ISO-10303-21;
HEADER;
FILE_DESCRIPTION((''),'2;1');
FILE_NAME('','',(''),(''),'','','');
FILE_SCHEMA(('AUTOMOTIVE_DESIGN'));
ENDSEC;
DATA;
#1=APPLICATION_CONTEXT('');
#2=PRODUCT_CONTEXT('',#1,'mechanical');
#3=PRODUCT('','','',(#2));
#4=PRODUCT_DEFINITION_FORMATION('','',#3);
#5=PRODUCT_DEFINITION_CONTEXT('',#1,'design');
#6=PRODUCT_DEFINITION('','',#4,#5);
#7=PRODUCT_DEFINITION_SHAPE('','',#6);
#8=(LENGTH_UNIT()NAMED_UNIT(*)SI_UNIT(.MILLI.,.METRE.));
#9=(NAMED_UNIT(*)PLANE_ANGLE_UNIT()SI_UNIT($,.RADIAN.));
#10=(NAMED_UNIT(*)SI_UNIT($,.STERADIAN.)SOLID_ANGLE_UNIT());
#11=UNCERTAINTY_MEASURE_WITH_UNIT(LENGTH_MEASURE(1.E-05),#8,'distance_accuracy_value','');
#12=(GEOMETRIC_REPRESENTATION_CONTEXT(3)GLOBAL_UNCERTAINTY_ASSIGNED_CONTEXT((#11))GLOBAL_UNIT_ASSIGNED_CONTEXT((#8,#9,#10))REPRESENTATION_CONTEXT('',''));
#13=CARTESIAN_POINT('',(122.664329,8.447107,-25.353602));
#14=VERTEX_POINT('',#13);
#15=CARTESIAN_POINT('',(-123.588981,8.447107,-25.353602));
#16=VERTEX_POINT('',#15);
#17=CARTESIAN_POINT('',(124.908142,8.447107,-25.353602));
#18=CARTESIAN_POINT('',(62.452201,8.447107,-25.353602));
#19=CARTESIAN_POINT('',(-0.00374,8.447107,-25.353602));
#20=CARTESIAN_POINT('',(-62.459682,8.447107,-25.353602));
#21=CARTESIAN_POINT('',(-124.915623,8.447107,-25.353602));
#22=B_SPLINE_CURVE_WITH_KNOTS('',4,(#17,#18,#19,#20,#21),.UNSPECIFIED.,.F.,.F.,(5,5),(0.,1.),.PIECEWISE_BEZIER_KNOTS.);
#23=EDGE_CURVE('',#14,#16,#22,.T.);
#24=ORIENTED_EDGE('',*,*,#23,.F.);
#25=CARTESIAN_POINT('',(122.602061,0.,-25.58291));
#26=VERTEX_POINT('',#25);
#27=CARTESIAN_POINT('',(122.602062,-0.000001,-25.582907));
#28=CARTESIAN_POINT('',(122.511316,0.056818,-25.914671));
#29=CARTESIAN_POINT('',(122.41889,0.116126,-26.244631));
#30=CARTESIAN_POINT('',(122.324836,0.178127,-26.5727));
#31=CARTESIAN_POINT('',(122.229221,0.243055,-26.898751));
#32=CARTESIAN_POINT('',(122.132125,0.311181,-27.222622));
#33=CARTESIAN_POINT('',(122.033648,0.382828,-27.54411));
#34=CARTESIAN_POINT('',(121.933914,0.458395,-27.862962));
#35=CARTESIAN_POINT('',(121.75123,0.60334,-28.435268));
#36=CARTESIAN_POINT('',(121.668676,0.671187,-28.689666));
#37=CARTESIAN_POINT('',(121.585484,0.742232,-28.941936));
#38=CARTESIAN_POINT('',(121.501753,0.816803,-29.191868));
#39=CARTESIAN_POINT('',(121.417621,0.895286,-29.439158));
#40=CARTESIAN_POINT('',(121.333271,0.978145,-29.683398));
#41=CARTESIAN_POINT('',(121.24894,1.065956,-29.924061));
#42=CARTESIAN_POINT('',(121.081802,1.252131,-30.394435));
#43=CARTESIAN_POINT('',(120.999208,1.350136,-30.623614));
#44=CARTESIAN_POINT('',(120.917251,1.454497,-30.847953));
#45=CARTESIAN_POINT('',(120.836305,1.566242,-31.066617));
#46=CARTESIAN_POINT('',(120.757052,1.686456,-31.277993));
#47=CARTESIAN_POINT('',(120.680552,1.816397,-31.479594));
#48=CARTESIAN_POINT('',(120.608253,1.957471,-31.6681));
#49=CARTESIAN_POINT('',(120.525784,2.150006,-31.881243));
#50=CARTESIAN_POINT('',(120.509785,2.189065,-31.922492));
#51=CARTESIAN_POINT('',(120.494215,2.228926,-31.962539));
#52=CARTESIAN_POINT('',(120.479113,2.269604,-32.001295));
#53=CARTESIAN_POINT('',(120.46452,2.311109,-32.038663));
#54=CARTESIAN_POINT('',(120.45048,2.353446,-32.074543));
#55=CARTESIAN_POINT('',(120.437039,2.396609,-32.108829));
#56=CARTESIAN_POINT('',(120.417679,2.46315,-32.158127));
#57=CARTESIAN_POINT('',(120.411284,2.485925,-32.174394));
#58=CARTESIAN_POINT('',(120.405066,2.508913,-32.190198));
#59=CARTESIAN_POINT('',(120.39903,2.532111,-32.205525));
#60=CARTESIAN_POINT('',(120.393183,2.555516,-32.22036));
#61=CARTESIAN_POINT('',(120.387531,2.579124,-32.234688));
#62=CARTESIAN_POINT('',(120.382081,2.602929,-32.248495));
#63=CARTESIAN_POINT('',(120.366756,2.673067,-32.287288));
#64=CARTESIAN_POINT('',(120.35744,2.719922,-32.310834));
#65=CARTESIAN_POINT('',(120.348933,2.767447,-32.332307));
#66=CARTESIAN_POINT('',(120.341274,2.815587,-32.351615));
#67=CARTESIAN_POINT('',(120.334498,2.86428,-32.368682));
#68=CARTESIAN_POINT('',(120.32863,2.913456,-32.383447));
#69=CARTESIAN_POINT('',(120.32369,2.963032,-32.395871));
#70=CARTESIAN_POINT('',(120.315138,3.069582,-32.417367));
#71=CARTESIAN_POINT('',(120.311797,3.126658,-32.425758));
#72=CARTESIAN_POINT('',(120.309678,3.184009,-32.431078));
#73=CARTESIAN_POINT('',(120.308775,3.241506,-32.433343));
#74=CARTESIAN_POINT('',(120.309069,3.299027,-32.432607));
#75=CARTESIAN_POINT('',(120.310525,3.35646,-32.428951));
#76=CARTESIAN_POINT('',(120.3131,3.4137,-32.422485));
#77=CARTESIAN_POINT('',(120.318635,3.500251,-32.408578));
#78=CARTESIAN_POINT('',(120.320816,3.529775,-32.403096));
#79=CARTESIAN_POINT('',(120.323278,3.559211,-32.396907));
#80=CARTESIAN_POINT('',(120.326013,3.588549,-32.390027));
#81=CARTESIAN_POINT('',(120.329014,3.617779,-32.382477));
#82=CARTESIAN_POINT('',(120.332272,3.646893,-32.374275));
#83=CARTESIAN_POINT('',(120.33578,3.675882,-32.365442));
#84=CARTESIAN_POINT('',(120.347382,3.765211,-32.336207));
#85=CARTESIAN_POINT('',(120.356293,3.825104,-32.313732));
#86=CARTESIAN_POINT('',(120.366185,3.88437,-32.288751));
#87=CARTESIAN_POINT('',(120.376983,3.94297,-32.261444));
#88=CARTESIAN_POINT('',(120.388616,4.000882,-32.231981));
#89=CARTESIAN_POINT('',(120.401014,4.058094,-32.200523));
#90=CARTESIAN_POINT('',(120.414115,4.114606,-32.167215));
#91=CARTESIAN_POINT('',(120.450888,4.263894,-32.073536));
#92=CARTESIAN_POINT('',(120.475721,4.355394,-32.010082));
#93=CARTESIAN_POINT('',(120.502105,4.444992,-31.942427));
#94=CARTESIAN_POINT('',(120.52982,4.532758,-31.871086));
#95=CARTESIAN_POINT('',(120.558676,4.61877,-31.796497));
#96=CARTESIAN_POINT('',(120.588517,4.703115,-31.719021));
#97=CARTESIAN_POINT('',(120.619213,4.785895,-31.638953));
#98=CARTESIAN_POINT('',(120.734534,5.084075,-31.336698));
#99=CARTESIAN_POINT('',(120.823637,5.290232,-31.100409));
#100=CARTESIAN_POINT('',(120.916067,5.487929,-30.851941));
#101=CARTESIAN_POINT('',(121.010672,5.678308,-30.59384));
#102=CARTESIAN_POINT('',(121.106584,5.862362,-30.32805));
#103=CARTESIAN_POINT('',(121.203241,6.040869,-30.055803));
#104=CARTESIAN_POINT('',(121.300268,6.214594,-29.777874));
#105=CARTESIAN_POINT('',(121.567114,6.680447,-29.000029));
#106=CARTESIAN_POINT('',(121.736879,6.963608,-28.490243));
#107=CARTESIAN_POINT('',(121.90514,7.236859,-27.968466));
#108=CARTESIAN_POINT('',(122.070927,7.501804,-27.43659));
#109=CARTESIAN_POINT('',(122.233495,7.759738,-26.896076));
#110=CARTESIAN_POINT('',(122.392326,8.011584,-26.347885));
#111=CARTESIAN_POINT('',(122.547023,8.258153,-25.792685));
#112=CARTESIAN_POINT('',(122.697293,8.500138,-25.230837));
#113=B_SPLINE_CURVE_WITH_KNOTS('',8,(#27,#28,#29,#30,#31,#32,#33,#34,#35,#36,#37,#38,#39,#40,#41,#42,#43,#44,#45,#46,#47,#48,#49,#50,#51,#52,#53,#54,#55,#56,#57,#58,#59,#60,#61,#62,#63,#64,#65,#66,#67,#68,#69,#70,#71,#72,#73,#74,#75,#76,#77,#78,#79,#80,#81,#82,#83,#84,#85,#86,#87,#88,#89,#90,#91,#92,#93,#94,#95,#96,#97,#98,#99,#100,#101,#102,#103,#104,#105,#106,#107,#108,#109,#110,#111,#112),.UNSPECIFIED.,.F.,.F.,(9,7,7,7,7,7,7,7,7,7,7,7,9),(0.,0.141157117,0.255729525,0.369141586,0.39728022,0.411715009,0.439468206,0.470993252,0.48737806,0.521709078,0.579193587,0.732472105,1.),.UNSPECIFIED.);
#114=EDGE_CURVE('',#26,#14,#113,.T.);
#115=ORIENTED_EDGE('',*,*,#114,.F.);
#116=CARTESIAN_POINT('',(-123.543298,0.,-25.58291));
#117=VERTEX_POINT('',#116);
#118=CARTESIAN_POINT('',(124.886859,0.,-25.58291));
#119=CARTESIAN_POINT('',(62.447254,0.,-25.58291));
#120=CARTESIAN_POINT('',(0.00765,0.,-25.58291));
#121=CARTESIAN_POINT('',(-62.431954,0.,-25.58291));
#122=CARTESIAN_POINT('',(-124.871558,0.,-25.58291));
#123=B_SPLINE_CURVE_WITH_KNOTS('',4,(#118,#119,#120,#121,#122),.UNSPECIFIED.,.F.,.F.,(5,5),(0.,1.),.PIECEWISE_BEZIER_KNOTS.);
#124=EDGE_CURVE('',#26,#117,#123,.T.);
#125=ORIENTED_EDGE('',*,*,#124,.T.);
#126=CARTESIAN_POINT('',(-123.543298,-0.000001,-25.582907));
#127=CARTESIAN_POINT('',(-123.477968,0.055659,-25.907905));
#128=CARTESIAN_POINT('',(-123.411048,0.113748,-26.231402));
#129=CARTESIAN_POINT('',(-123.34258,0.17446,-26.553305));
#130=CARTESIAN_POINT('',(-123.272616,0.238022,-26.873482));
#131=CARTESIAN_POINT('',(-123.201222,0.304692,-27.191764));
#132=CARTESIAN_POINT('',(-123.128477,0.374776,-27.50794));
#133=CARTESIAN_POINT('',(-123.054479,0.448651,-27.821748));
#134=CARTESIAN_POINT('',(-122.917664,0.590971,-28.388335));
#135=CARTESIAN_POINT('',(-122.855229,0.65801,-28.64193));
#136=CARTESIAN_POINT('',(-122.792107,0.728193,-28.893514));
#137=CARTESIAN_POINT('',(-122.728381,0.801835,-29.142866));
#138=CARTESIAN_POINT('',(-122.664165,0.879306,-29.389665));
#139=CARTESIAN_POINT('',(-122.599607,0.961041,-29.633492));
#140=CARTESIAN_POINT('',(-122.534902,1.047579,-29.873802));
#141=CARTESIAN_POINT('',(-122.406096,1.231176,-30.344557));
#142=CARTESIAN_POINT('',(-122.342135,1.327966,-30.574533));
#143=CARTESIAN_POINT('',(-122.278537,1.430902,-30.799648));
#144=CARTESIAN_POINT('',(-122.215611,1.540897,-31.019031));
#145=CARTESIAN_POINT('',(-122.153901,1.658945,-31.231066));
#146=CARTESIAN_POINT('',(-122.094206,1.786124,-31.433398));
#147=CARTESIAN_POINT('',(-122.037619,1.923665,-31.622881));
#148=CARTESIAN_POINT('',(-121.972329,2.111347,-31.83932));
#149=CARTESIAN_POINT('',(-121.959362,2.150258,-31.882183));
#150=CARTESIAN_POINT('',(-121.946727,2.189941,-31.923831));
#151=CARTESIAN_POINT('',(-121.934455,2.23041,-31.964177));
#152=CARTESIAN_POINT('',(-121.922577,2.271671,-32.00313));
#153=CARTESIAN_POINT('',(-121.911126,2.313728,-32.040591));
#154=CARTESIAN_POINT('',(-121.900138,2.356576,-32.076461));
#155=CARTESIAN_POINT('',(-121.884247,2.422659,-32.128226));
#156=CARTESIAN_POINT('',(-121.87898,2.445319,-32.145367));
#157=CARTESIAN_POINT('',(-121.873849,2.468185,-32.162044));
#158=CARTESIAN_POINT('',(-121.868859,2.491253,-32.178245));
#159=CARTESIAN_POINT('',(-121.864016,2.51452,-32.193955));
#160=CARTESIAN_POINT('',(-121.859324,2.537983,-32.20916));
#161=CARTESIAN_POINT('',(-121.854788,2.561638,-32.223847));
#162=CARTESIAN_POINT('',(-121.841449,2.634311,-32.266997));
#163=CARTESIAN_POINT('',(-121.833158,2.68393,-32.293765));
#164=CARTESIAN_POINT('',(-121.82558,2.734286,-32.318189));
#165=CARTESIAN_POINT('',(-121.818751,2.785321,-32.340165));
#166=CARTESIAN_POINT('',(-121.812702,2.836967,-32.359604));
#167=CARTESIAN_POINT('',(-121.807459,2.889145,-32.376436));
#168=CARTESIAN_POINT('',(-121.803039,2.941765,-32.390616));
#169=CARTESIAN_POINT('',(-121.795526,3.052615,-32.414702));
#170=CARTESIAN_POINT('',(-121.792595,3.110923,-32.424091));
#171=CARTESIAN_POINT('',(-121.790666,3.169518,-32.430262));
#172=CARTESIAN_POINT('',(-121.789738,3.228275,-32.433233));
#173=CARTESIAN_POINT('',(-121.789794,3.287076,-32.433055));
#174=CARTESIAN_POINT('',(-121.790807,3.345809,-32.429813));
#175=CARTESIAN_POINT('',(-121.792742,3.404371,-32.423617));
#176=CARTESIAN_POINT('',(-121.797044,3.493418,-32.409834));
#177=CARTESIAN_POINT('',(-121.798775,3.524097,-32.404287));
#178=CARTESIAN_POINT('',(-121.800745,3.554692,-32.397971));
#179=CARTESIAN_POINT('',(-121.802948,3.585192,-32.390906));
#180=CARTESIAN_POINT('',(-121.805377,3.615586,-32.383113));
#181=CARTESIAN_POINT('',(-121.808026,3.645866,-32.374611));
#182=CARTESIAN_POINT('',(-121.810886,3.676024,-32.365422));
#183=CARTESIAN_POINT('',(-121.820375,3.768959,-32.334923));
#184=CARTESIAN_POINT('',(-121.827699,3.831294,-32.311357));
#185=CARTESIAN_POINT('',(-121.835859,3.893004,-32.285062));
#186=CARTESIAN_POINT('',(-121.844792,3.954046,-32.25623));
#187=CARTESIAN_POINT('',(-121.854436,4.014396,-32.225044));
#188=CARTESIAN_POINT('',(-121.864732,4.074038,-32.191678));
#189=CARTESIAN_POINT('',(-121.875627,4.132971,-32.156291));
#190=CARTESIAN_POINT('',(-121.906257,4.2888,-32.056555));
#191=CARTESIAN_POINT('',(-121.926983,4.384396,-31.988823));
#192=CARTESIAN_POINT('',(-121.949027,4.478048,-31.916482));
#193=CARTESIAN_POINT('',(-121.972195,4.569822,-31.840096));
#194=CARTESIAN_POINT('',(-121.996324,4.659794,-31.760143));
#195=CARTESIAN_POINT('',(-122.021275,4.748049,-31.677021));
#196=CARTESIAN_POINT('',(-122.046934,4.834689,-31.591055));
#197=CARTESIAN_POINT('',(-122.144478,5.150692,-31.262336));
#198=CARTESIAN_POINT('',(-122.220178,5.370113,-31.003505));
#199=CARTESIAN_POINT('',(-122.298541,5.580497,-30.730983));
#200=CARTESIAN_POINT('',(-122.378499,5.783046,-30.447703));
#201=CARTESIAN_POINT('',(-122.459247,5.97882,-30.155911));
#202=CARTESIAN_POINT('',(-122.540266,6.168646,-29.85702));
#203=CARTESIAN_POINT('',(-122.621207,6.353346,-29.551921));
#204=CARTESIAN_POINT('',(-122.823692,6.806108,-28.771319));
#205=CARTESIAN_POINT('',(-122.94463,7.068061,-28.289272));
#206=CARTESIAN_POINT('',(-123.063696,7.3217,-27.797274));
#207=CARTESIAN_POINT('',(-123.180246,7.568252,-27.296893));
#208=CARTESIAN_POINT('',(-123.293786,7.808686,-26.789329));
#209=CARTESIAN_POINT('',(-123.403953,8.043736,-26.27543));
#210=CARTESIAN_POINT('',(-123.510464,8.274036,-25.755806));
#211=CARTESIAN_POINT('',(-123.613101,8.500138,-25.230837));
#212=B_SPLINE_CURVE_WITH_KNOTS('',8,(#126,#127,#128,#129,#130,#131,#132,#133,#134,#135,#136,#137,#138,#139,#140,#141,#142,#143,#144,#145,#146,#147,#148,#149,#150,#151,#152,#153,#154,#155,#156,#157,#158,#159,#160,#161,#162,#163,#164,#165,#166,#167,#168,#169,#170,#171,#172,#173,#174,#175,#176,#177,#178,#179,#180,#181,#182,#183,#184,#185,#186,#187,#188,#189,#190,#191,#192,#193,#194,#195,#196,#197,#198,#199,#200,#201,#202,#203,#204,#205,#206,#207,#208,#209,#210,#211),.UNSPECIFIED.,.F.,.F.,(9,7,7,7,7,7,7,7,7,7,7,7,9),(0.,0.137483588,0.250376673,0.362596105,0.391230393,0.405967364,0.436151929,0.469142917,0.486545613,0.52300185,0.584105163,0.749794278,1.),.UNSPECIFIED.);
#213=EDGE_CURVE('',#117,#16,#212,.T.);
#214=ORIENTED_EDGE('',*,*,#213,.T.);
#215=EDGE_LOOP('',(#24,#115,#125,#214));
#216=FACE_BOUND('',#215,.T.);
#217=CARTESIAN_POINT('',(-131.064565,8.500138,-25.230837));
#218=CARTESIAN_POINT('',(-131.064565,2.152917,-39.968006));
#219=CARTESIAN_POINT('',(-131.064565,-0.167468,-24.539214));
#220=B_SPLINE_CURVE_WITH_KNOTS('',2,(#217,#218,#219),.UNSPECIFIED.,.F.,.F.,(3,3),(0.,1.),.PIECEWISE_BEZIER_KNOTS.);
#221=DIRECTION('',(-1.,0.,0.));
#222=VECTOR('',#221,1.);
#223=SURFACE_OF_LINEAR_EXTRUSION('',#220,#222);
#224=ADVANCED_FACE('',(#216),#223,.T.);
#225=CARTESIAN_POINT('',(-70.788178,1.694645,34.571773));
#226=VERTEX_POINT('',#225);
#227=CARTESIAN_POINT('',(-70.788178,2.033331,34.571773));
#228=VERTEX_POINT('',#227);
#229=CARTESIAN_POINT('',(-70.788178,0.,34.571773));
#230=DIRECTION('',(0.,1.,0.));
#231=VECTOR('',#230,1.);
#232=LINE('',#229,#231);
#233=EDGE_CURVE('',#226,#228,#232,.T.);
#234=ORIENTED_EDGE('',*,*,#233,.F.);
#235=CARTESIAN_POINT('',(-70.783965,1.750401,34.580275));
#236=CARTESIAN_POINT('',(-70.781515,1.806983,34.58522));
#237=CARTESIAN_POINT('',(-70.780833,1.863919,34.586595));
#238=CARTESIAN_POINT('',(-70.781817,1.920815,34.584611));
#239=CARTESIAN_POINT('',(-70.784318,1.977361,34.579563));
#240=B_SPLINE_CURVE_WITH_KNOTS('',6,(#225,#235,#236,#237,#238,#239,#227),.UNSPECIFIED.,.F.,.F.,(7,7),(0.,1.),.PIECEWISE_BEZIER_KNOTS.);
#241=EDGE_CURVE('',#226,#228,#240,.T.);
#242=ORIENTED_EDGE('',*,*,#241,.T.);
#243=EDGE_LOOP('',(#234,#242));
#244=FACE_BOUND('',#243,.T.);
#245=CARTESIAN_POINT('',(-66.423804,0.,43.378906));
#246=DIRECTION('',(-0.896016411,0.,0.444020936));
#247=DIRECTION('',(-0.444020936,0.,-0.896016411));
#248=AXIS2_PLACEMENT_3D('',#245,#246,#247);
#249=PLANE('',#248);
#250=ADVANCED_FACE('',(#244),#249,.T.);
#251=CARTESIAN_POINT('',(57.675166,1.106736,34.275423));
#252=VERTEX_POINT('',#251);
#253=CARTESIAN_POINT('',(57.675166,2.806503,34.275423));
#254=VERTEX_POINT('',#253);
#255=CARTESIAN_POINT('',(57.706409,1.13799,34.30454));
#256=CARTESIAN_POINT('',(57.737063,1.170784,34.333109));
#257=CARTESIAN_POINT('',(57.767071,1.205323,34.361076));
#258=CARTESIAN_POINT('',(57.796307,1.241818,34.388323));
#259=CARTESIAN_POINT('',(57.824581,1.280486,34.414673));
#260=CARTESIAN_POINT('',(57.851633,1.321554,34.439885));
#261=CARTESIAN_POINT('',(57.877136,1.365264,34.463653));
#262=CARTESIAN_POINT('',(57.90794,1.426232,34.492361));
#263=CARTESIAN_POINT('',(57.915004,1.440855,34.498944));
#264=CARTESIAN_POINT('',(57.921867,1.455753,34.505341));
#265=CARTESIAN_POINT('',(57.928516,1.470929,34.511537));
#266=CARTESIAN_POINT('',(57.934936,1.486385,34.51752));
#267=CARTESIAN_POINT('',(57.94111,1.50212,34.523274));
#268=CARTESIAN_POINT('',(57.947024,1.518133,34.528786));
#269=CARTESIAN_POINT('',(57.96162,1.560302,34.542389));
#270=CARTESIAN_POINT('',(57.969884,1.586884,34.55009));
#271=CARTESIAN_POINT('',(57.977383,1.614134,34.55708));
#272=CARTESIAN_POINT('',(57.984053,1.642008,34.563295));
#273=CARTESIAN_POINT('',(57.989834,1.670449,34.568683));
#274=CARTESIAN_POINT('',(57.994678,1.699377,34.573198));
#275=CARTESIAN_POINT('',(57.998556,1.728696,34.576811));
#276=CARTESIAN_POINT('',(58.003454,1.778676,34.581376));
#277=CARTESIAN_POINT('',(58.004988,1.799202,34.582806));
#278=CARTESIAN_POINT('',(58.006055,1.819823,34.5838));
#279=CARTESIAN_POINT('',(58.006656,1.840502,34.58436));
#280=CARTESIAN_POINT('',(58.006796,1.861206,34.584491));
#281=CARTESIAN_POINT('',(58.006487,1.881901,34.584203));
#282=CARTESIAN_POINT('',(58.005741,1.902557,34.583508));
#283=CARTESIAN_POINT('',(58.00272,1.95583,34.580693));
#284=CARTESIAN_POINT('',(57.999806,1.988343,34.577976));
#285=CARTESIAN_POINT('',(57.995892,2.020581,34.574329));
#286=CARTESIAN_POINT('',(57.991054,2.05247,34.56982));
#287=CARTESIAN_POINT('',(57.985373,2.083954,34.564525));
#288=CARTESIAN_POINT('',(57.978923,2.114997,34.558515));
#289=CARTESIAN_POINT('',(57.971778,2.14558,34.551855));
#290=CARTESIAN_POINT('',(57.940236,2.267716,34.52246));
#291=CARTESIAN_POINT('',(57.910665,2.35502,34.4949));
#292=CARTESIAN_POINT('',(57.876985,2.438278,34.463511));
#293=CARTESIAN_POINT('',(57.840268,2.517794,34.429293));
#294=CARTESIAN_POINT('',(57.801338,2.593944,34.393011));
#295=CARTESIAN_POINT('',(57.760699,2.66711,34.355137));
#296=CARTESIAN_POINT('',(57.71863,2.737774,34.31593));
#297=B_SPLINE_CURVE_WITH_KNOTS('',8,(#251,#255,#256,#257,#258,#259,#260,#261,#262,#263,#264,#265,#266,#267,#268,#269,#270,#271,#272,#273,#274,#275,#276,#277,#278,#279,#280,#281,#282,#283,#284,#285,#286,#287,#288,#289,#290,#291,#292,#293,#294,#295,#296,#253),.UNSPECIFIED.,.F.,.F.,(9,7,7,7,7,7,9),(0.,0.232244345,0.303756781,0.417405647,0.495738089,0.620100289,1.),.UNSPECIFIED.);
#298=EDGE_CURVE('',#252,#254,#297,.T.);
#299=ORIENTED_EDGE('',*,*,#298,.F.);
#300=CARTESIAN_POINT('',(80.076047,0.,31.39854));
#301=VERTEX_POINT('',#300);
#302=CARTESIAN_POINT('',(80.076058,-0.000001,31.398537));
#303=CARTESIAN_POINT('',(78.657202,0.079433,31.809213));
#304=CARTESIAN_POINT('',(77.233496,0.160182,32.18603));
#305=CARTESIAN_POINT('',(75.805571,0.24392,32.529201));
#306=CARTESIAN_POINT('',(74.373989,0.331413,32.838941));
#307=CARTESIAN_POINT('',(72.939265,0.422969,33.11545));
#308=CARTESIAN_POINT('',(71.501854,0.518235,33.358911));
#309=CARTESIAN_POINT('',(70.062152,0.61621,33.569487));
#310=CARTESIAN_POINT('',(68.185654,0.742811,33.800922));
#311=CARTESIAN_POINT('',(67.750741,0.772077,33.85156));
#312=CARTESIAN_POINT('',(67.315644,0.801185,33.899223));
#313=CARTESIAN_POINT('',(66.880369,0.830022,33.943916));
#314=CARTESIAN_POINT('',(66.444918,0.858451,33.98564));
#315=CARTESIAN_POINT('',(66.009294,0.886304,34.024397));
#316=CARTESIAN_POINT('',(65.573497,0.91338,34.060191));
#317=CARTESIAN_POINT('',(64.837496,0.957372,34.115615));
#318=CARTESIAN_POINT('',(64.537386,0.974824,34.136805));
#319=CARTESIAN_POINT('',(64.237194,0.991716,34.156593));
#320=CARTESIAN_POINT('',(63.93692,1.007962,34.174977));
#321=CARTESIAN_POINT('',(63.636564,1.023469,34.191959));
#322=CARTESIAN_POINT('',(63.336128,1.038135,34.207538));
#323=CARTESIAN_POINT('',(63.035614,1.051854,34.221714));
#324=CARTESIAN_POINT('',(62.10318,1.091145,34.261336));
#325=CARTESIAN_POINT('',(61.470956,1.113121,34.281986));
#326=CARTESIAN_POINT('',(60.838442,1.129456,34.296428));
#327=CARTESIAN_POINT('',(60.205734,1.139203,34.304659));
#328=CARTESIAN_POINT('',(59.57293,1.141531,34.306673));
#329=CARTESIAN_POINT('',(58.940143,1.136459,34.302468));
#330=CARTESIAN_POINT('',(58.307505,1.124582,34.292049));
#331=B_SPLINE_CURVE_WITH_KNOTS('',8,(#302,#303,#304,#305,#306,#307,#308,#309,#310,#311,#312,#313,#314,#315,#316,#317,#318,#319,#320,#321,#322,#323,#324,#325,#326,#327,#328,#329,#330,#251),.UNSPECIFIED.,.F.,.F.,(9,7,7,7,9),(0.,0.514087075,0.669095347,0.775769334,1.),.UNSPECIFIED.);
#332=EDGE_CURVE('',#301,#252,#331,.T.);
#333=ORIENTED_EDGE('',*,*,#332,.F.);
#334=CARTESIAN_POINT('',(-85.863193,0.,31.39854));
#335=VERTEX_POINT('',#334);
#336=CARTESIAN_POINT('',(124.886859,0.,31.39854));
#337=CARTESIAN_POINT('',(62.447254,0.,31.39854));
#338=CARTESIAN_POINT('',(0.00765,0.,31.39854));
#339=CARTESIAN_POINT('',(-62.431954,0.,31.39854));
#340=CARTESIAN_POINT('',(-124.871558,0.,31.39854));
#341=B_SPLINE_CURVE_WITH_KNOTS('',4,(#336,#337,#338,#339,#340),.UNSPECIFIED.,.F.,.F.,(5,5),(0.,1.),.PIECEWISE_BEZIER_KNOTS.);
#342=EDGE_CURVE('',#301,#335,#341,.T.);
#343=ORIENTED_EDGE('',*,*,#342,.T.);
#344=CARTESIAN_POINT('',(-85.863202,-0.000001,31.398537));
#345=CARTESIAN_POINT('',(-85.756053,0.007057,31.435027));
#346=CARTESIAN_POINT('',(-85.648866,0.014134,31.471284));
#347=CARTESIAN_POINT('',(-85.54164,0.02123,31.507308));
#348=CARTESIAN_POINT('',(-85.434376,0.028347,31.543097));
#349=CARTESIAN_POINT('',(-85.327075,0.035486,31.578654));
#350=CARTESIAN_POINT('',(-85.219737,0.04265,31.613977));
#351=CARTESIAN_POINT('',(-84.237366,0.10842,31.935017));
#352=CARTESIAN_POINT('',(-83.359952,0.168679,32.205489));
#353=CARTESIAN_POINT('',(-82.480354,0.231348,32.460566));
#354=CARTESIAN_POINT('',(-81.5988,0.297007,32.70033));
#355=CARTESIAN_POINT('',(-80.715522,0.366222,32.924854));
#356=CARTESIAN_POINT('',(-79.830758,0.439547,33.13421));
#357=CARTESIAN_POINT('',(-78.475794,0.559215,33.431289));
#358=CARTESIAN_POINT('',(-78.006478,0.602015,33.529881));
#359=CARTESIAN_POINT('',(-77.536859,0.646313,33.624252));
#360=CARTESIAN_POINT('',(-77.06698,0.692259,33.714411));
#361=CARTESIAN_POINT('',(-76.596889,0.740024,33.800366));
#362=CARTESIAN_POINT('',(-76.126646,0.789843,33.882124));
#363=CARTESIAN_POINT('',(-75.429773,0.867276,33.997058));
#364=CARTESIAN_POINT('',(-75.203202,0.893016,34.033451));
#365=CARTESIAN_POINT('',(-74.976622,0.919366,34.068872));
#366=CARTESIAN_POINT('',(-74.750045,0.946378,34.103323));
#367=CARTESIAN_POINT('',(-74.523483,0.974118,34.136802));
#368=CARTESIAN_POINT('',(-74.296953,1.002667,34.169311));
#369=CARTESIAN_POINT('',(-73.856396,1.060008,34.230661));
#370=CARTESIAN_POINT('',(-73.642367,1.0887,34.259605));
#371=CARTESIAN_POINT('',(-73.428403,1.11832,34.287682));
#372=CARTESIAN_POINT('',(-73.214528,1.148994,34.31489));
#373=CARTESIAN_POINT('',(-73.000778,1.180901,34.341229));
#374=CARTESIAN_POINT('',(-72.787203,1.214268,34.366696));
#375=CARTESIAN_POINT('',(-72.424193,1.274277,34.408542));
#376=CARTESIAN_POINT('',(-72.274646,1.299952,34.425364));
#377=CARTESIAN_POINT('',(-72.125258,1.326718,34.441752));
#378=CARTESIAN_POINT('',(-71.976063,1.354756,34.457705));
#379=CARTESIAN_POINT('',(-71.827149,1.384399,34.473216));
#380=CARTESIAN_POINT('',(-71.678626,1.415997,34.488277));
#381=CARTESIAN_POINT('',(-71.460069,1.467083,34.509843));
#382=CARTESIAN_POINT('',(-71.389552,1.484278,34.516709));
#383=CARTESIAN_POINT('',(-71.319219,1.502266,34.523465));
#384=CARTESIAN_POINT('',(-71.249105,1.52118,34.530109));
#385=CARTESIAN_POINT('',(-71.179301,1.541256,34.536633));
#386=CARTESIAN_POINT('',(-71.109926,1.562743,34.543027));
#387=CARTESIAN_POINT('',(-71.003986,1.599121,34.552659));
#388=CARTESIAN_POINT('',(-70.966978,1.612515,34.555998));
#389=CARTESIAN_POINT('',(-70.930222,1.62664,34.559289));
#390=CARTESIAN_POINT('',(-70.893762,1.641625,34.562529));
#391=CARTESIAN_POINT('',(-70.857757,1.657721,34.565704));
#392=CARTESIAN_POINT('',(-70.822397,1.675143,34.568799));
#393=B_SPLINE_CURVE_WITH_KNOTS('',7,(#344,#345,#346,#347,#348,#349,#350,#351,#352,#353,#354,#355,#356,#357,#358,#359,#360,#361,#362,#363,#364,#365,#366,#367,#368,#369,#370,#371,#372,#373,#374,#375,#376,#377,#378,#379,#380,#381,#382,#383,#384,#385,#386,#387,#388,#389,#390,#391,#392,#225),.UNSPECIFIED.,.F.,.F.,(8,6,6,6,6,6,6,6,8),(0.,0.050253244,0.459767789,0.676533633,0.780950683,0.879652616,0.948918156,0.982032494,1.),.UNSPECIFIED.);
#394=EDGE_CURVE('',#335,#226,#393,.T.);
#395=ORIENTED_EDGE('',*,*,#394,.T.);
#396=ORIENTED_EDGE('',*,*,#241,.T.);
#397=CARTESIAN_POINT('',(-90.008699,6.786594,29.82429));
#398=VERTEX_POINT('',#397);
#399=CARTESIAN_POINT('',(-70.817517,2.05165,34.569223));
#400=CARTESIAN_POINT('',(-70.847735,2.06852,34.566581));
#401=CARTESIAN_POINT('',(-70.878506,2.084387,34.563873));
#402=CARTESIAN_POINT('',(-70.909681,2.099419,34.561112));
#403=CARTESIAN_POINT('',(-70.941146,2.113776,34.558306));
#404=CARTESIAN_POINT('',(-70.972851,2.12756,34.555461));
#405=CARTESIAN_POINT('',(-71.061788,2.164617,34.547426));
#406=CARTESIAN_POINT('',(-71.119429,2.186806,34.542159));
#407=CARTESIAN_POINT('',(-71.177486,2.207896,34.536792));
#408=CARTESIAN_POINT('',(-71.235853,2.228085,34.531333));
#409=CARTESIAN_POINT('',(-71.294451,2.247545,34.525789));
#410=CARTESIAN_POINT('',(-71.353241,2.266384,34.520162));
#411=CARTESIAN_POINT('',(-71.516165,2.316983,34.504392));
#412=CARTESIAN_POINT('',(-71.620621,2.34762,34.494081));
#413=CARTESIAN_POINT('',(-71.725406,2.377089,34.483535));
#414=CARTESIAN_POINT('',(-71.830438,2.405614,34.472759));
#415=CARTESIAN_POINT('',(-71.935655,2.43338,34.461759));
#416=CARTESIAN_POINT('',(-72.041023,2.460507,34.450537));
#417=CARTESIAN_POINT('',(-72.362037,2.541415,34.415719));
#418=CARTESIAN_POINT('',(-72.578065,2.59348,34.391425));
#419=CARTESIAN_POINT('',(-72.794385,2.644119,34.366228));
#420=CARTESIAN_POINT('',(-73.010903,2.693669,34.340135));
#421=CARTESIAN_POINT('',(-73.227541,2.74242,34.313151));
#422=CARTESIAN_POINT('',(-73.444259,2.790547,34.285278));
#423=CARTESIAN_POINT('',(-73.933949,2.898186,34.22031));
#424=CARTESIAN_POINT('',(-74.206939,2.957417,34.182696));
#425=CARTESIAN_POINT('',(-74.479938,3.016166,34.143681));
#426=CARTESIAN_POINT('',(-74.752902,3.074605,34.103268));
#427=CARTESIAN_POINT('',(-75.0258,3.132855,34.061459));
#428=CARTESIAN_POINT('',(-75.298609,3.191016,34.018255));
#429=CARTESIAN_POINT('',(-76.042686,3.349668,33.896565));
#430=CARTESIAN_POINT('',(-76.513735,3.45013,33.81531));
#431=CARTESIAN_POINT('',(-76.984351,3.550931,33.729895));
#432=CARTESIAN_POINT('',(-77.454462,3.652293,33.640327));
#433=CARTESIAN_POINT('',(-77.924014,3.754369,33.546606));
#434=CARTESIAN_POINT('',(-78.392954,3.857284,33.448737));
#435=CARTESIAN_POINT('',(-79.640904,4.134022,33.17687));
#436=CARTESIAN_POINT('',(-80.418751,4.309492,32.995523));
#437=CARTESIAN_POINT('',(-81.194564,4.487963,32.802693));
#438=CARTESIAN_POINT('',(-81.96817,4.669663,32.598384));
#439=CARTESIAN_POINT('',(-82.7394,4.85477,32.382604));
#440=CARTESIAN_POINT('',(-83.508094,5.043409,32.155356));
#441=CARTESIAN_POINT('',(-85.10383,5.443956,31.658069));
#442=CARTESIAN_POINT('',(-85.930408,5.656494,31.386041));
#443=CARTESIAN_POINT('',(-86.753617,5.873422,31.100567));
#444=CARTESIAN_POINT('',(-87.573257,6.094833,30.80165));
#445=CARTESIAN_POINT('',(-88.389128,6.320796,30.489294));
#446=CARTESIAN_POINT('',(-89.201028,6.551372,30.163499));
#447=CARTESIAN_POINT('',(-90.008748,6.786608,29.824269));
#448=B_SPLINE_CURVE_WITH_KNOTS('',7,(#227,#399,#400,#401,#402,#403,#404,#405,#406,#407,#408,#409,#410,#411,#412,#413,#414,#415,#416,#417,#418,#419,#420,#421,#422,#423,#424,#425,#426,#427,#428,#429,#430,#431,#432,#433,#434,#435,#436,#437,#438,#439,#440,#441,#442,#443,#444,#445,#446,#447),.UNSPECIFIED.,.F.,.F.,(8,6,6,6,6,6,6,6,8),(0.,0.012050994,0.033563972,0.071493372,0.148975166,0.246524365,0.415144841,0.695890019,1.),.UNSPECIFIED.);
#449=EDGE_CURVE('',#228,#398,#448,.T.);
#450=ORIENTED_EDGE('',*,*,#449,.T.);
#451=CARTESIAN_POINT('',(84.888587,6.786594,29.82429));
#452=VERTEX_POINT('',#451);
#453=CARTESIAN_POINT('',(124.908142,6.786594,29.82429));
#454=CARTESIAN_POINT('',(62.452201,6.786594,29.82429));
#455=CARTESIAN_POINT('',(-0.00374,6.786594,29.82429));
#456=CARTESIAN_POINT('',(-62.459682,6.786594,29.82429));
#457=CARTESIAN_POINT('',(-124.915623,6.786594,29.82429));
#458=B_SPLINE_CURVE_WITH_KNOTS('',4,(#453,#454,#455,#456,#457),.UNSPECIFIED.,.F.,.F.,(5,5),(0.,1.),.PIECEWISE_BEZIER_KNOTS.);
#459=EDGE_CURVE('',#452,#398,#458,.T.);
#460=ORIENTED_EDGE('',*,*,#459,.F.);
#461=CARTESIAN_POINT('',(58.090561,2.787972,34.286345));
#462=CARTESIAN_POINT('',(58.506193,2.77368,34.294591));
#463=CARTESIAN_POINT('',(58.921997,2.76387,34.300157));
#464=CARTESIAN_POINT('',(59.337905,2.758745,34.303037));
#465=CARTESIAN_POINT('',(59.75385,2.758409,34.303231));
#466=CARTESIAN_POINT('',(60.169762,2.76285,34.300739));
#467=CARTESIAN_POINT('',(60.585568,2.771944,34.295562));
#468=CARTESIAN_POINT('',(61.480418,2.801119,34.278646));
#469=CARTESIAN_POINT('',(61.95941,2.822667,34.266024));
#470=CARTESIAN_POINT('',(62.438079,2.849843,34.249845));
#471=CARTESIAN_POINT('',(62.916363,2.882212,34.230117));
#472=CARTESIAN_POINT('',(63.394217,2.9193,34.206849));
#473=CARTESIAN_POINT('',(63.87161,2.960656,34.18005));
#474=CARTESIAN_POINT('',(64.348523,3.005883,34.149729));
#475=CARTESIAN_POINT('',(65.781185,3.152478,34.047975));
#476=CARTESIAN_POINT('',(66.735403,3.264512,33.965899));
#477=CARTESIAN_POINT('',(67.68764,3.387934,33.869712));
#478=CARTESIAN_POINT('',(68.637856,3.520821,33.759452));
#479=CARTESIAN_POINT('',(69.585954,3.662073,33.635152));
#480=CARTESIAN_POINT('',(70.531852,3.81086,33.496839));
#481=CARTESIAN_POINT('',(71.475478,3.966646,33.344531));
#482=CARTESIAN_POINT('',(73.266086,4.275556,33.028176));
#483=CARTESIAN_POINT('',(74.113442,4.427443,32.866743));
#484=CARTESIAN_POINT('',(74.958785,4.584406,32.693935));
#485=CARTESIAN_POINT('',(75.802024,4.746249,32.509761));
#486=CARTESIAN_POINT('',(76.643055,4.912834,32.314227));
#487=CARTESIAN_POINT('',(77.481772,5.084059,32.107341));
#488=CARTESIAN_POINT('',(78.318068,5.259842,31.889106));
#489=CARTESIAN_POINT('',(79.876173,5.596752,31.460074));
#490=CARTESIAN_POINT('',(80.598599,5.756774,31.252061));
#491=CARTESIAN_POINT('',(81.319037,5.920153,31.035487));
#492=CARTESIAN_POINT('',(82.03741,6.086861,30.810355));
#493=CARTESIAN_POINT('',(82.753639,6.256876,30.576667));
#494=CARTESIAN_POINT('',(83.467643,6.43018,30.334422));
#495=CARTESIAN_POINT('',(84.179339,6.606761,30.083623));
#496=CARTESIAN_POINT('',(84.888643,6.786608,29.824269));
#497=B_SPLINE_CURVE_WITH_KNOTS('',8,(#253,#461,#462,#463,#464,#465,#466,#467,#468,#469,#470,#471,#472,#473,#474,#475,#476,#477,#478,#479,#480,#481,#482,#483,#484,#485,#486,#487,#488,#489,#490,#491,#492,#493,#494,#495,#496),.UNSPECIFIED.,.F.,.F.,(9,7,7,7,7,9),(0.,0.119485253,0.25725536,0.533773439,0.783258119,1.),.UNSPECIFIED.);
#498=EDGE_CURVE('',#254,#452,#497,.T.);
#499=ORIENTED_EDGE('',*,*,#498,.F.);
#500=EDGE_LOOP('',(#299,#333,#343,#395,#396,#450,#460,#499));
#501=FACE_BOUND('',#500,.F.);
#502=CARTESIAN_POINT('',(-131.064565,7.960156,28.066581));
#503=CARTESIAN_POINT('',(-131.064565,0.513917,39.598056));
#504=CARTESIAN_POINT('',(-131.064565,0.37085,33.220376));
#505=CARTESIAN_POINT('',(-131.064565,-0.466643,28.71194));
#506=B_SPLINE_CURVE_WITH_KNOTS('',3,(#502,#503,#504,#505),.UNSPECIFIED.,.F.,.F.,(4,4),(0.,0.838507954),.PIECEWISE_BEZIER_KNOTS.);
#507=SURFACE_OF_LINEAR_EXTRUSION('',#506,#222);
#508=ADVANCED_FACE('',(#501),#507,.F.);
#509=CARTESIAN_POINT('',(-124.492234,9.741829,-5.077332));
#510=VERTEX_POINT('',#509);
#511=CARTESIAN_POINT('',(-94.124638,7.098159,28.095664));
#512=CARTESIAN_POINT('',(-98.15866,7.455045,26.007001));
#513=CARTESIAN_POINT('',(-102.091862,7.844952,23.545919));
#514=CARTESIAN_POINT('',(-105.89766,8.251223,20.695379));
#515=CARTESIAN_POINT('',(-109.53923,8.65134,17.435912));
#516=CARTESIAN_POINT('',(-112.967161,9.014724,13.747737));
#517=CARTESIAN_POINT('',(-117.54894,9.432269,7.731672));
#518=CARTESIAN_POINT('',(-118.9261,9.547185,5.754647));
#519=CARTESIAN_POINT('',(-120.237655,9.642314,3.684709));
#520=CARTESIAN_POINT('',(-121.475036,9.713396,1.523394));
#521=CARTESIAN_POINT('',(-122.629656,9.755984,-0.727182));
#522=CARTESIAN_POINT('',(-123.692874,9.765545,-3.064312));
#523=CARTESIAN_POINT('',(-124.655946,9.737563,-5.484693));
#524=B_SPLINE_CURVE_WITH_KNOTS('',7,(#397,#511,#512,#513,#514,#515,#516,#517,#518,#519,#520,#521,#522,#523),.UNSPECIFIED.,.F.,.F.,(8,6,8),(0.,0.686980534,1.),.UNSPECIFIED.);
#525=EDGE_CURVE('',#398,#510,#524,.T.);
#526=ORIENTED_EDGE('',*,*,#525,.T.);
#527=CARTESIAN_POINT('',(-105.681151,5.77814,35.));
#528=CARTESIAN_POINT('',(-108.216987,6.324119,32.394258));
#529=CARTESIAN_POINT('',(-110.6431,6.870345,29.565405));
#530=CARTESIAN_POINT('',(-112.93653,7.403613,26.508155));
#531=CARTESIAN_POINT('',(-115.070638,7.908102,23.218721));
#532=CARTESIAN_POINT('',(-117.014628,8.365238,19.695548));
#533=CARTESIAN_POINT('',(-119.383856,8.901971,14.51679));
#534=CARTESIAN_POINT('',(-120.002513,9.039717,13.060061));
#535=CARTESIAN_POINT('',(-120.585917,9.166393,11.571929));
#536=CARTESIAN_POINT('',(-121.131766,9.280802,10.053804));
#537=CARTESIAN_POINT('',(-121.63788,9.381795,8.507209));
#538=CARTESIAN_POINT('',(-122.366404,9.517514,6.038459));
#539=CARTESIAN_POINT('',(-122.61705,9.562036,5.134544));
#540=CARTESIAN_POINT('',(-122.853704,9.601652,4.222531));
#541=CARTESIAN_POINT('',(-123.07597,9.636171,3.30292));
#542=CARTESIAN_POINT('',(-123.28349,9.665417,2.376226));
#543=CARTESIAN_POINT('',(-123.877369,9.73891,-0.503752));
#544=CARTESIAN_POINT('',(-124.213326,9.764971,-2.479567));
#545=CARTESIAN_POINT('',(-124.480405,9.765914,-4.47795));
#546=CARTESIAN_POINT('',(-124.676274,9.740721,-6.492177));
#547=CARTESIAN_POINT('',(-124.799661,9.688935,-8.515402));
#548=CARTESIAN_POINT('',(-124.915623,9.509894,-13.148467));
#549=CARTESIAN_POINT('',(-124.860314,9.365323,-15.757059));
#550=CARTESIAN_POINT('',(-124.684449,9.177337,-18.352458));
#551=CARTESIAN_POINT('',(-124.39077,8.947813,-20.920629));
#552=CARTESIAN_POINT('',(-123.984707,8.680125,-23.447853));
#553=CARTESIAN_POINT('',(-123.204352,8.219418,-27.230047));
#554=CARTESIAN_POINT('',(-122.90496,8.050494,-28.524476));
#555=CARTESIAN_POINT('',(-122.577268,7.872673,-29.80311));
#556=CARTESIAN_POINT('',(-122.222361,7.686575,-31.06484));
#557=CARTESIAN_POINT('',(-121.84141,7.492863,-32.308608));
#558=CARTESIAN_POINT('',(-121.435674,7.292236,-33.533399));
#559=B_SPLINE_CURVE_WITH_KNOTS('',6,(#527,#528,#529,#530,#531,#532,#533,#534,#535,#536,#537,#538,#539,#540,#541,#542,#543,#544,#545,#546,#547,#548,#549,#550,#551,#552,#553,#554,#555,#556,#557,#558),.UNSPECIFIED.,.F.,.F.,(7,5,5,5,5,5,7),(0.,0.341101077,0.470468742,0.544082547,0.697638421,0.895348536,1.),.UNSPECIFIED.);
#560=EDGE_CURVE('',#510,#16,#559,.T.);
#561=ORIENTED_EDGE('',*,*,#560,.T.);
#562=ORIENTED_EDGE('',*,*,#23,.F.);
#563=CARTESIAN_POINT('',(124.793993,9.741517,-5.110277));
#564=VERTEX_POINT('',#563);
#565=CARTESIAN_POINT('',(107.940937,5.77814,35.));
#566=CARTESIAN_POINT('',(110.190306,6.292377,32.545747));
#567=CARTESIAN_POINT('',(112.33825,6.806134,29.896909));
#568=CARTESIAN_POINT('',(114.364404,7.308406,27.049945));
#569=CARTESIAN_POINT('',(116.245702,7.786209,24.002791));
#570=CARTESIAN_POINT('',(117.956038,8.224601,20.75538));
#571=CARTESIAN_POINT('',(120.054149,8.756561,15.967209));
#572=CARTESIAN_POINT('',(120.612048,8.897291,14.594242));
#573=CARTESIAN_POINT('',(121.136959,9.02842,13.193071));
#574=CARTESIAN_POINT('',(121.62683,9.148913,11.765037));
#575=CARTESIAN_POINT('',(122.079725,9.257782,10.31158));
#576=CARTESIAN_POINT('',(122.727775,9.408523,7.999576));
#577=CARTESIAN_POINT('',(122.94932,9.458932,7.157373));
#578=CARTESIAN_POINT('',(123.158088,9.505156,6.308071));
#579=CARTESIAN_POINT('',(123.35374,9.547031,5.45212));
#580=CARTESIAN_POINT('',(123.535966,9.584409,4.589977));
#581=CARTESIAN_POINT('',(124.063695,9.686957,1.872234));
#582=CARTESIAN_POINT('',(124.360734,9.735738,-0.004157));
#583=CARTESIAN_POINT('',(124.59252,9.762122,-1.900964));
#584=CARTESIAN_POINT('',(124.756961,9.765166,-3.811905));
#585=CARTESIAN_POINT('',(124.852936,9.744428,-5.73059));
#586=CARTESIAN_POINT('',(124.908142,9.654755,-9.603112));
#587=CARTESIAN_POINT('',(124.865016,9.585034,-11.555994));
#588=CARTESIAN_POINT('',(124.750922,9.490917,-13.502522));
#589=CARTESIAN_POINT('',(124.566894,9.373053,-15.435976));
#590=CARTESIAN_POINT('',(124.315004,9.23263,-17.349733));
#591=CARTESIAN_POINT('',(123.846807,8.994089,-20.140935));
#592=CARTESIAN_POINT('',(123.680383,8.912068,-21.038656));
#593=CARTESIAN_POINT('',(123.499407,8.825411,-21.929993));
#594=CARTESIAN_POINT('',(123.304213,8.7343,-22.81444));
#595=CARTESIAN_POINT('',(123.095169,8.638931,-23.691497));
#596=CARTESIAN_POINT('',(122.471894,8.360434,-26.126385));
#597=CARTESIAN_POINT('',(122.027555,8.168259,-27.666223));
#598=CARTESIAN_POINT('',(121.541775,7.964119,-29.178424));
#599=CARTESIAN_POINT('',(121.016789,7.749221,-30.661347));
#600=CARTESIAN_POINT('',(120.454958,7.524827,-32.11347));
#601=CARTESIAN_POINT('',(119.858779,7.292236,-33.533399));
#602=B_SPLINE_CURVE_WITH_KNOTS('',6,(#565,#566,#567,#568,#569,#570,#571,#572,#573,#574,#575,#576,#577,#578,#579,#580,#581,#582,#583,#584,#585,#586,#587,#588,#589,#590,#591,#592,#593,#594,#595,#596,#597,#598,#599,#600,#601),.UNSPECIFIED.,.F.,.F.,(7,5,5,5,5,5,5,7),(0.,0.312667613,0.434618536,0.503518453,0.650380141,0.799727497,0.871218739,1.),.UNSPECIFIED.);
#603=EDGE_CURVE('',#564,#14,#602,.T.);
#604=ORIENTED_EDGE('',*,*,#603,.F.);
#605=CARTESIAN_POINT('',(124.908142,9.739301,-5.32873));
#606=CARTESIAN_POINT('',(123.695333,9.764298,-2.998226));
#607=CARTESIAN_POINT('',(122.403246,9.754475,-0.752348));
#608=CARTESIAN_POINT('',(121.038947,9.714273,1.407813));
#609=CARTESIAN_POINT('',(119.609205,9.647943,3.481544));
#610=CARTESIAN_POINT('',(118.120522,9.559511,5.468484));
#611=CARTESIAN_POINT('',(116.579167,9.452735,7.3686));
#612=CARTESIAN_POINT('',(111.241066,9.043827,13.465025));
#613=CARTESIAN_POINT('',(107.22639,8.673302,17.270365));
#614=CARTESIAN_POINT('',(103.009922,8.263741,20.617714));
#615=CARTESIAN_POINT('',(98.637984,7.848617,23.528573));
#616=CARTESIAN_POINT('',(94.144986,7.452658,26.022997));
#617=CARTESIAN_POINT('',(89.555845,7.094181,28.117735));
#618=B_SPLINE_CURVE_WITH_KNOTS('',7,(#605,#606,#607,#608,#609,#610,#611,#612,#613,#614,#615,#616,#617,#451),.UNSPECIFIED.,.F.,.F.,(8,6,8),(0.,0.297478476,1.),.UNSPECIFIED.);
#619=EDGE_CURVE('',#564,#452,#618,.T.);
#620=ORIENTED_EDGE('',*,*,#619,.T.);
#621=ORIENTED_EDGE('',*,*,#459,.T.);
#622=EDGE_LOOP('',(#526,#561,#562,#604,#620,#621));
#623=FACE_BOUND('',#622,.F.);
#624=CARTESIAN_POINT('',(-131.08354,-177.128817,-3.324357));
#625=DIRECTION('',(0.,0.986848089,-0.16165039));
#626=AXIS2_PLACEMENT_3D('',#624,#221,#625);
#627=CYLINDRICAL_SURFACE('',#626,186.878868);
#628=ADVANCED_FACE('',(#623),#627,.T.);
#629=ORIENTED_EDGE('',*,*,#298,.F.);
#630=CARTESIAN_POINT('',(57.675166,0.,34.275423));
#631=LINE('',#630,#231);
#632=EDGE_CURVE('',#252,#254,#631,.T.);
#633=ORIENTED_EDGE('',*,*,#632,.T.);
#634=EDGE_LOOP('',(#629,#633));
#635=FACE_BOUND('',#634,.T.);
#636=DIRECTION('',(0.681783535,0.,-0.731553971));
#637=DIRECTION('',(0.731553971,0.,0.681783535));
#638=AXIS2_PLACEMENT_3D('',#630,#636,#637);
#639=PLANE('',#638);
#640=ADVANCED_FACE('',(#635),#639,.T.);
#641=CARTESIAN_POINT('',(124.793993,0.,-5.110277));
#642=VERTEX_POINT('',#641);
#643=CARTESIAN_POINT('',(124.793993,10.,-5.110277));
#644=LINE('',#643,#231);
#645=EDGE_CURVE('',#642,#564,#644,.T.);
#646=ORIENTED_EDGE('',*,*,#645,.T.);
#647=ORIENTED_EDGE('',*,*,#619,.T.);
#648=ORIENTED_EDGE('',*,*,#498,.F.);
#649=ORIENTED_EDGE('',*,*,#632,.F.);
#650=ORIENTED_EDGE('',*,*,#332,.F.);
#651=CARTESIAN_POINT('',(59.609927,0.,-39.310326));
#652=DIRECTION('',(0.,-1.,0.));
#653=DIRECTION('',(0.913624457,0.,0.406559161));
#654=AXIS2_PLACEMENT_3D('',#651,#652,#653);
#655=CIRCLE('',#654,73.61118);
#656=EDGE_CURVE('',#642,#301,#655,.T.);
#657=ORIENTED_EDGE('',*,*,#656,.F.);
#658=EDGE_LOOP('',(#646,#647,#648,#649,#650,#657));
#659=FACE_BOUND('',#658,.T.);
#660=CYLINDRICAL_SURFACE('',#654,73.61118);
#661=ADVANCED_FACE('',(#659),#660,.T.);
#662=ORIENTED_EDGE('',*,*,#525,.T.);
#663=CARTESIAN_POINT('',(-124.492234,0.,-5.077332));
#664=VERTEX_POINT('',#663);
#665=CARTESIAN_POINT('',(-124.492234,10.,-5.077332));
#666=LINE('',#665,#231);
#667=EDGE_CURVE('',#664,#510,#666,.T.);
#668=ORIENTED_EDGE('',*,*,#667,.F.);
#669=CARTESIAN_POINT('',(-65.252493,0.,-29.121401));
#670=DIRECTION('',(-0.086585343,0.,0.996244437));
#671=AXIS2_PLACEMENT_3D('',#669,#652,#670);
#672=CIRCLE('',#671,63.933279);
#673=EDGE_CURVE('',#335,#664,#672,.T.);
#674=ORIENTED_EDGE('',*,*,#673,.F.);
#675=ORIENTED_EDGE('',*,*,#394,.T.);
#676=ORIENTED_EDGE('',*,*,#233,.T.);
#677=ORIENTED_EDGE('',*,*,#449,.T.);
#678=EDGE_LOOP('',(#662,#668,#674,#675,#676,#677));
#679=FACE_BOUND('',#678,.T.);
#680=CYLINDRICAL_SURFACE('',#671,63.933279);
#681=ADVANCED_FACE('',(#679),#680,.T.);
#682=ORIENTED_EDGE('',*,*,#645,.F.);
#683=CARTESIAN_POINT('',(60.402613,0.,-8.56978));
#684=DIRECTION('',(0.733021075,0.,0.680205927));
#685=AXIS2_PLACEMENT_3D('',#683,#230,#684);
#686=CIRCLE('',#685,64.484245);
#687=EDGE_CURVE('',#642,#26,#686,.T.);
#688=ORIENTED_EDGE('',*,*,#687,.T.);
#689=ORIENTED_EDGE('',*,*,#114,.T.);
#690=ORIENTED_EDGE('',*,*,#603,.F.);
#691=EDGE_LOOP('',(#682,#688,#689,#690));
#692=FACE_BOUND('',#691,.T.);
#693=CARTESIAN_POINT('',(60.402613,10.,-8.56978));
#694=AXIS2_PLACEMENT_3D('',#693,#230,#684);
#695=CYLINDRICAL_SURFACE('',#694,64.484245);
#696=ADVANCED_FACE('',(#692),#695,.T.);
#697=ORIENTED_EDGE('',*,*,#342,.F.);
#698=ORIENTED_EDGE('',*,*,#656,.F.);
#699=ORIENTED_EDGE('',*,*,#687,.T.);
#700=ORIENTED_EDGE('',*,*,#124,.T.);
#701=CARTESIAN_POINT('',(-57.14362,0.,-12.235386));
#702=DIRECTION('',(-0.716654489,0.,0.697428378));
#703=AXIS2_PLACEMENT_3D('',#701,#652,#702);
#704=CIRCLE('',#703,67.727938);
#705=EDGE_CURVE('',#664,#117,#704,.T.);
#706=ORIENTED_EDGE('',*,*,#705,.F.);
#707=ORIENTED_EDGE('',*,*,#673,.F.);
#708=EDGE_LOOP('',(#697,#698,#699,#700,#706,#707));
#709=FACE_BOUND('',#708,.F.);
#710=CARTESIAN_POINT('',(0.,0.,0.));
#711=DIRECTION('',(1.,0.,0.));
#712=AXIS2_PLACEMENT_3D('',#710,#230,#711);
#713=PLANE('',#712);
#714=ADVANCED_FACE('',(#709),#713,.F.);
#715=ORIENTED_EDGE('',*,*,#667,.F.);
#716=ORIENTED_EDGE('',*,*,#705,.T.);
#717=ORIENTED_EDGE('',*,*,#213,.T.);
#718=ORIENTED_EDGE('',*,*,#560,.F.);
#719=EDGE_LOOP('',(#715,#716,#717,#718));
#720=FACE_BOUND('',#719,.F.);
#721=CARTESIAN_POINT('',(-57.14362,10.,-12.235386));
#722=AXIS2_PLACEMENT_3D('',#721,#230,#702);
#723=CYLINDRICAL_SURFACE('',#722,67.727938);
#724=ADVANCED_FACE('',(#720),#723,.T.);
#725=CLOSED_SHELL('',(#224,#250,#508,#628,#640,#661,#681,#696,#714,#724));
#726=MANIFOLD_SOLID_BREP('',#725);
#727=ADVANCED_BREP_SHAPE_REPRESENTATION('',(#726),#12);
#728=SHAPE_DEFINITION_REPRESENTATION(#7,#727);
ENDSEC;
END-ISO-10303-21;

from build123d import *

# Parameters (mm, degrees)
SKETCH1_W                = 250
SKETCH1_H                = 70
BOSS_EXTRUDE1_DEPTH      = 10
CUT_EXTRUDE1_DEPTH       = 10
CUT_EXTRUDE2_DEPTH       = 10
CUT_EXTRUDE7_DEPTH       = 131.083540302
CUT_EXTRUDE7_DEPTH_BACK  = 131.083540302
CUT_EXTRUDE12_DEPTH      = 131.064564638
CUT_EXTRUDE12_DEPTH_BACK = 131.064564638
CUT_EXTRUDE15_DEPTH      = 10
CUT_EXTRUDE16_DEPTH      = 10
CUT_EXTRUDE21_DEPTH      = 131.064564638
CUT_EXTRUDE21_DEPTH_BACK = 131.064564638


with BuildPart() as part:
    # Sketch1 → Boss-Extrude1 (new body)
    with BuildSketch(Plane(origin=(0, 0, 0), x_dir=(1, 0, 0), z_dir=(0, 1, 0))):
        Rectangle(SKETCH1_W, SKETCH1_H)
    extrude(amount=BOSS_EXTRUDE1_DEPTH)

    # Sketch2 → Cut-Extrude1 (cut)
    with BuildSketch(Plane(origin=(0, 10, 0), x_dir=(1, 0, 0), z_dir=(0, 1, 0))):
        with BuildLine():
            Line((-125, -35), (-105.6811507, -35))
            ThreePointArc((-105.6811507, -35), (-123.319359291, -2.181448179), (-120.931126211, 35))
            Line((-120.931126211, 35), (-125, 35))
            Line((-125, 35), (-125, -35))
        make_face()
        with BuildLine():
            ThreePointArc((-102.585198357, -37.985491478), (-104.15687903, -36.517327288), (-105.6811507, -35))
            Line((-105.6811507, -35), (-125, -35))
            Line((-125, -35), (-125, 35))
            Line((-125, 35), (-120.931126211, 35))
            ThreePointArc((-120.931126211, 35), (-117.77369036, 42.419291873), (-113.756908851, 49.410769495))
            ThreePointArc((-113.756908851, 49.410769495), (-123.297106068, 68.789133967), (-141.939517672, 79.697702256))
            ThreePointArc((-141.939517672, 79.697702256), (-176.738011892, 49.445919486), (-154.950429467, 8.808414484))
            ThreePointArc((-154.950429467, 8.808414484), (-179.373061386, -41.265354418), (-129.299292485, -65.687986337))
            ThreePointArc((-129.299292485, -65.687986337), (-103.552743859, -63.784193915), (-102.585198357, -37.985491478))
        make_face()
    extrude(amount=-CUT_EXTRUDE1_DEPTH, mode=Mode.SUBTRACT)

    # Sketch3 → Cut-Extrude2 (cut)
    with BuildSketch(Plane(origin=(0, 10, 0), x_dir=(1, 0, 0), z_dir=(0, 1, 0))):
        with BuildLine():
            ThreePointArc((107.670924145, -35.29278609), (124.046120338, -1.80913671), (119.157389799, 35.142211572))
            ThreePointArc((119.157389799, 35.142211572), (134.08963077, 47.557806696), (153.427471124, 45.778269352))
            ThreePointArc((153.427471124, 45.778269352), (237.062768876, 49.332031087), (168.624576004, 1.127197211))
            ThreePointArc((168.624576004, 1.127197211), (150.729727191, -38.140394783), (107.670924145, -35.29278609))
        make_face()
    extrude(amount=-CUT_EXTRUDE2_DEPTH, mode=Mode.SUBTRACT)

    # Sketch7 → Cut-Extrude7 (cut, two sides: drawn at the far end of the back side and taken through both)
    with BuildSketch(Plane(origin=(0, 0, 0), x_dir=(0, 0, -1), z_dir=(1, 0, 0)).offset(-CUT_EXTRUDE7_DEPTH_BACK)):
        with BuildLine():
            ThreePointArc((33.533398698, 7.292236255), (-1.467141086, 9.688614292), (-36.298819038, 5.501177851))
            ThreePointArc((-36.298819038, 5.501177851), (-59.137780951, 12.031911856), (-75.102753404, 29.621349666))
            ThreePointArc((-75.102753404, 29.621349666), (-94.212515617, 81.478521501), (-38.963674899, 82.862314097))
            ThreePointArc((-38.963674899, 82.862314097), (26.341939645, 119.615559451), (63.095184998, 54.309944906))
            ThreePointArc((63.095184998, 54.309944906), (106.612811455, -5.853362128), (33.533398698, 7.292236255))
        make_face()
    extrude(amount=CUT_EXTRUDE7_DEPTH + CUT_EXTRUDE7_DEPTH_BACK, mode=Mode.SUBTRACT)

    # Sketch8 → Cut-Extrude12 (cut, two sides: drawn at the far end of the back side and taken through both)
    with BuildSketch(Plane(origin=(0, 0, 0), x_dir=(0, 0, -1), z_dir=(1, 0, 0)).offset(-CUT_EXTRUDE12_DEPTH_BACK)):
        with BuildLine():
            Line((-28.066580628, 7.960156192), (-42.709897039, 11.860300813))
            Line((-42.709897039, 11.860300813), (-42.709897039, -7.993078492))
            Line((-42.709897039, -7.993078492), (-28.71193991, -0.466643389))
            add(Edge.make_bspline(
                [(-28.066580628, 7.960156192), (-39.598055898, 0.513916796), (-33.220375755, 0.370849615), (-28.71193991, -0.466643389)],
                knots=[0, 0, 0, 0, 0.838507954, 0.838507954, 0.838507954, 0.838507954], degree=3))
        make_face()
    extrude(amount=CUT_EXTRUDE12_DEPTH + CUT_EXTRUDE12_DEPTH_BACK, mode=Mode.SUBTRACT)

    # Sketch9 → Cut-Extrude15 (cut)
    with BuildSketch(Plane(origin=(0, 0, 0), x_dir=(-1, 0, 0), z_dir=(0, -1, 0))):
        with BuildLine():
            Line((124.655946291, 5.484693498), (146.36395099, -21.002614193))
            Line((146.36395099, -21.002614193), (76.210821695, -48.228862541))
            Line((76.210821695, -48.228862541), (66.423803533, -43.378905656))
            Line((66.423803533, -43.378905656), (70.788178261, -34.57177278))
            ThreePointArc((70.788178261, -34.57177278), (103.40223816, -22.182216373), (124.655946291, 5.484693498))
        make_face()
    extrude(amount=-CUT_EXTRUDE15_DEPTH, mode=Mode.SUBTRACT)

    # Sketch10 → Cut-Extrude16 (cut)
    with BuildSketch(Plane(origin=(0, 0, 0), x_dir=(-1, 0, 0), z_dir=(0, -1, 0))):
        with BuildLine():
            Line((-57.675166137, -34.275423238), (-71.543821122, -47.200540174))
            Line((-71.543821122, -47.200540174), (-140.907758081, -43.326426614))
            Line((-140.907758081, -43.326426614), (-154.2664719, 14.83864241))
            Line((-154.2664719, 14.83864241), (-126.862900993, 9.383026654))
            ThreePointArc((-126.862900993, 9.383026654), (-98.892649646, -22.942974845), (-57.675166137, -34.275423238))
        make_face()
    extrude(amount=-CUT_EXTRUDE16_DEPTH, mode=Mode.SUBTRACT)

    # Sketch11 → Cut-Extrude21 (cut, two sides: drawn at the far end of the back side and taken through both)
    with BuildSketch(Plane(origin=(0, 0, 0), x_dir=(0, 0, -1), z_dir=(1, 0, 0)).offset(-CUT_EXTRUDE21_DEPTH_BACK)):
        with BuildLine():
            Line((25.230837074, 8.500137714), (41.025699478, 16.186384417))
            Line((41.025699478, 16.186384417), (42.557487911, 1.877911824))
            Line((42.557487911, 1.877911824), (37.210923704, -12.479147824))
            Line((37.210923704, -12.479147824), (27.144998545, -6.229370678))
            Line((27.144998545, -6.229370678), (24.539214353, -0.167468362))
            add(Edge.make_bspline(
                [(25.230837074, 8.500137714), (39.968005994, 2.152916652), (24.539214353, -0.167468362)],
                knots=[0, 0, 0, 1, 1, 1], degree=2))
        make_face()
    extrude(amount=CUT_EXTRUDE21_DEPTH + CUT_EXTRUDE21_DEPTH_BACK, mode=Mode.SUBTRACT)


solid = part.part
